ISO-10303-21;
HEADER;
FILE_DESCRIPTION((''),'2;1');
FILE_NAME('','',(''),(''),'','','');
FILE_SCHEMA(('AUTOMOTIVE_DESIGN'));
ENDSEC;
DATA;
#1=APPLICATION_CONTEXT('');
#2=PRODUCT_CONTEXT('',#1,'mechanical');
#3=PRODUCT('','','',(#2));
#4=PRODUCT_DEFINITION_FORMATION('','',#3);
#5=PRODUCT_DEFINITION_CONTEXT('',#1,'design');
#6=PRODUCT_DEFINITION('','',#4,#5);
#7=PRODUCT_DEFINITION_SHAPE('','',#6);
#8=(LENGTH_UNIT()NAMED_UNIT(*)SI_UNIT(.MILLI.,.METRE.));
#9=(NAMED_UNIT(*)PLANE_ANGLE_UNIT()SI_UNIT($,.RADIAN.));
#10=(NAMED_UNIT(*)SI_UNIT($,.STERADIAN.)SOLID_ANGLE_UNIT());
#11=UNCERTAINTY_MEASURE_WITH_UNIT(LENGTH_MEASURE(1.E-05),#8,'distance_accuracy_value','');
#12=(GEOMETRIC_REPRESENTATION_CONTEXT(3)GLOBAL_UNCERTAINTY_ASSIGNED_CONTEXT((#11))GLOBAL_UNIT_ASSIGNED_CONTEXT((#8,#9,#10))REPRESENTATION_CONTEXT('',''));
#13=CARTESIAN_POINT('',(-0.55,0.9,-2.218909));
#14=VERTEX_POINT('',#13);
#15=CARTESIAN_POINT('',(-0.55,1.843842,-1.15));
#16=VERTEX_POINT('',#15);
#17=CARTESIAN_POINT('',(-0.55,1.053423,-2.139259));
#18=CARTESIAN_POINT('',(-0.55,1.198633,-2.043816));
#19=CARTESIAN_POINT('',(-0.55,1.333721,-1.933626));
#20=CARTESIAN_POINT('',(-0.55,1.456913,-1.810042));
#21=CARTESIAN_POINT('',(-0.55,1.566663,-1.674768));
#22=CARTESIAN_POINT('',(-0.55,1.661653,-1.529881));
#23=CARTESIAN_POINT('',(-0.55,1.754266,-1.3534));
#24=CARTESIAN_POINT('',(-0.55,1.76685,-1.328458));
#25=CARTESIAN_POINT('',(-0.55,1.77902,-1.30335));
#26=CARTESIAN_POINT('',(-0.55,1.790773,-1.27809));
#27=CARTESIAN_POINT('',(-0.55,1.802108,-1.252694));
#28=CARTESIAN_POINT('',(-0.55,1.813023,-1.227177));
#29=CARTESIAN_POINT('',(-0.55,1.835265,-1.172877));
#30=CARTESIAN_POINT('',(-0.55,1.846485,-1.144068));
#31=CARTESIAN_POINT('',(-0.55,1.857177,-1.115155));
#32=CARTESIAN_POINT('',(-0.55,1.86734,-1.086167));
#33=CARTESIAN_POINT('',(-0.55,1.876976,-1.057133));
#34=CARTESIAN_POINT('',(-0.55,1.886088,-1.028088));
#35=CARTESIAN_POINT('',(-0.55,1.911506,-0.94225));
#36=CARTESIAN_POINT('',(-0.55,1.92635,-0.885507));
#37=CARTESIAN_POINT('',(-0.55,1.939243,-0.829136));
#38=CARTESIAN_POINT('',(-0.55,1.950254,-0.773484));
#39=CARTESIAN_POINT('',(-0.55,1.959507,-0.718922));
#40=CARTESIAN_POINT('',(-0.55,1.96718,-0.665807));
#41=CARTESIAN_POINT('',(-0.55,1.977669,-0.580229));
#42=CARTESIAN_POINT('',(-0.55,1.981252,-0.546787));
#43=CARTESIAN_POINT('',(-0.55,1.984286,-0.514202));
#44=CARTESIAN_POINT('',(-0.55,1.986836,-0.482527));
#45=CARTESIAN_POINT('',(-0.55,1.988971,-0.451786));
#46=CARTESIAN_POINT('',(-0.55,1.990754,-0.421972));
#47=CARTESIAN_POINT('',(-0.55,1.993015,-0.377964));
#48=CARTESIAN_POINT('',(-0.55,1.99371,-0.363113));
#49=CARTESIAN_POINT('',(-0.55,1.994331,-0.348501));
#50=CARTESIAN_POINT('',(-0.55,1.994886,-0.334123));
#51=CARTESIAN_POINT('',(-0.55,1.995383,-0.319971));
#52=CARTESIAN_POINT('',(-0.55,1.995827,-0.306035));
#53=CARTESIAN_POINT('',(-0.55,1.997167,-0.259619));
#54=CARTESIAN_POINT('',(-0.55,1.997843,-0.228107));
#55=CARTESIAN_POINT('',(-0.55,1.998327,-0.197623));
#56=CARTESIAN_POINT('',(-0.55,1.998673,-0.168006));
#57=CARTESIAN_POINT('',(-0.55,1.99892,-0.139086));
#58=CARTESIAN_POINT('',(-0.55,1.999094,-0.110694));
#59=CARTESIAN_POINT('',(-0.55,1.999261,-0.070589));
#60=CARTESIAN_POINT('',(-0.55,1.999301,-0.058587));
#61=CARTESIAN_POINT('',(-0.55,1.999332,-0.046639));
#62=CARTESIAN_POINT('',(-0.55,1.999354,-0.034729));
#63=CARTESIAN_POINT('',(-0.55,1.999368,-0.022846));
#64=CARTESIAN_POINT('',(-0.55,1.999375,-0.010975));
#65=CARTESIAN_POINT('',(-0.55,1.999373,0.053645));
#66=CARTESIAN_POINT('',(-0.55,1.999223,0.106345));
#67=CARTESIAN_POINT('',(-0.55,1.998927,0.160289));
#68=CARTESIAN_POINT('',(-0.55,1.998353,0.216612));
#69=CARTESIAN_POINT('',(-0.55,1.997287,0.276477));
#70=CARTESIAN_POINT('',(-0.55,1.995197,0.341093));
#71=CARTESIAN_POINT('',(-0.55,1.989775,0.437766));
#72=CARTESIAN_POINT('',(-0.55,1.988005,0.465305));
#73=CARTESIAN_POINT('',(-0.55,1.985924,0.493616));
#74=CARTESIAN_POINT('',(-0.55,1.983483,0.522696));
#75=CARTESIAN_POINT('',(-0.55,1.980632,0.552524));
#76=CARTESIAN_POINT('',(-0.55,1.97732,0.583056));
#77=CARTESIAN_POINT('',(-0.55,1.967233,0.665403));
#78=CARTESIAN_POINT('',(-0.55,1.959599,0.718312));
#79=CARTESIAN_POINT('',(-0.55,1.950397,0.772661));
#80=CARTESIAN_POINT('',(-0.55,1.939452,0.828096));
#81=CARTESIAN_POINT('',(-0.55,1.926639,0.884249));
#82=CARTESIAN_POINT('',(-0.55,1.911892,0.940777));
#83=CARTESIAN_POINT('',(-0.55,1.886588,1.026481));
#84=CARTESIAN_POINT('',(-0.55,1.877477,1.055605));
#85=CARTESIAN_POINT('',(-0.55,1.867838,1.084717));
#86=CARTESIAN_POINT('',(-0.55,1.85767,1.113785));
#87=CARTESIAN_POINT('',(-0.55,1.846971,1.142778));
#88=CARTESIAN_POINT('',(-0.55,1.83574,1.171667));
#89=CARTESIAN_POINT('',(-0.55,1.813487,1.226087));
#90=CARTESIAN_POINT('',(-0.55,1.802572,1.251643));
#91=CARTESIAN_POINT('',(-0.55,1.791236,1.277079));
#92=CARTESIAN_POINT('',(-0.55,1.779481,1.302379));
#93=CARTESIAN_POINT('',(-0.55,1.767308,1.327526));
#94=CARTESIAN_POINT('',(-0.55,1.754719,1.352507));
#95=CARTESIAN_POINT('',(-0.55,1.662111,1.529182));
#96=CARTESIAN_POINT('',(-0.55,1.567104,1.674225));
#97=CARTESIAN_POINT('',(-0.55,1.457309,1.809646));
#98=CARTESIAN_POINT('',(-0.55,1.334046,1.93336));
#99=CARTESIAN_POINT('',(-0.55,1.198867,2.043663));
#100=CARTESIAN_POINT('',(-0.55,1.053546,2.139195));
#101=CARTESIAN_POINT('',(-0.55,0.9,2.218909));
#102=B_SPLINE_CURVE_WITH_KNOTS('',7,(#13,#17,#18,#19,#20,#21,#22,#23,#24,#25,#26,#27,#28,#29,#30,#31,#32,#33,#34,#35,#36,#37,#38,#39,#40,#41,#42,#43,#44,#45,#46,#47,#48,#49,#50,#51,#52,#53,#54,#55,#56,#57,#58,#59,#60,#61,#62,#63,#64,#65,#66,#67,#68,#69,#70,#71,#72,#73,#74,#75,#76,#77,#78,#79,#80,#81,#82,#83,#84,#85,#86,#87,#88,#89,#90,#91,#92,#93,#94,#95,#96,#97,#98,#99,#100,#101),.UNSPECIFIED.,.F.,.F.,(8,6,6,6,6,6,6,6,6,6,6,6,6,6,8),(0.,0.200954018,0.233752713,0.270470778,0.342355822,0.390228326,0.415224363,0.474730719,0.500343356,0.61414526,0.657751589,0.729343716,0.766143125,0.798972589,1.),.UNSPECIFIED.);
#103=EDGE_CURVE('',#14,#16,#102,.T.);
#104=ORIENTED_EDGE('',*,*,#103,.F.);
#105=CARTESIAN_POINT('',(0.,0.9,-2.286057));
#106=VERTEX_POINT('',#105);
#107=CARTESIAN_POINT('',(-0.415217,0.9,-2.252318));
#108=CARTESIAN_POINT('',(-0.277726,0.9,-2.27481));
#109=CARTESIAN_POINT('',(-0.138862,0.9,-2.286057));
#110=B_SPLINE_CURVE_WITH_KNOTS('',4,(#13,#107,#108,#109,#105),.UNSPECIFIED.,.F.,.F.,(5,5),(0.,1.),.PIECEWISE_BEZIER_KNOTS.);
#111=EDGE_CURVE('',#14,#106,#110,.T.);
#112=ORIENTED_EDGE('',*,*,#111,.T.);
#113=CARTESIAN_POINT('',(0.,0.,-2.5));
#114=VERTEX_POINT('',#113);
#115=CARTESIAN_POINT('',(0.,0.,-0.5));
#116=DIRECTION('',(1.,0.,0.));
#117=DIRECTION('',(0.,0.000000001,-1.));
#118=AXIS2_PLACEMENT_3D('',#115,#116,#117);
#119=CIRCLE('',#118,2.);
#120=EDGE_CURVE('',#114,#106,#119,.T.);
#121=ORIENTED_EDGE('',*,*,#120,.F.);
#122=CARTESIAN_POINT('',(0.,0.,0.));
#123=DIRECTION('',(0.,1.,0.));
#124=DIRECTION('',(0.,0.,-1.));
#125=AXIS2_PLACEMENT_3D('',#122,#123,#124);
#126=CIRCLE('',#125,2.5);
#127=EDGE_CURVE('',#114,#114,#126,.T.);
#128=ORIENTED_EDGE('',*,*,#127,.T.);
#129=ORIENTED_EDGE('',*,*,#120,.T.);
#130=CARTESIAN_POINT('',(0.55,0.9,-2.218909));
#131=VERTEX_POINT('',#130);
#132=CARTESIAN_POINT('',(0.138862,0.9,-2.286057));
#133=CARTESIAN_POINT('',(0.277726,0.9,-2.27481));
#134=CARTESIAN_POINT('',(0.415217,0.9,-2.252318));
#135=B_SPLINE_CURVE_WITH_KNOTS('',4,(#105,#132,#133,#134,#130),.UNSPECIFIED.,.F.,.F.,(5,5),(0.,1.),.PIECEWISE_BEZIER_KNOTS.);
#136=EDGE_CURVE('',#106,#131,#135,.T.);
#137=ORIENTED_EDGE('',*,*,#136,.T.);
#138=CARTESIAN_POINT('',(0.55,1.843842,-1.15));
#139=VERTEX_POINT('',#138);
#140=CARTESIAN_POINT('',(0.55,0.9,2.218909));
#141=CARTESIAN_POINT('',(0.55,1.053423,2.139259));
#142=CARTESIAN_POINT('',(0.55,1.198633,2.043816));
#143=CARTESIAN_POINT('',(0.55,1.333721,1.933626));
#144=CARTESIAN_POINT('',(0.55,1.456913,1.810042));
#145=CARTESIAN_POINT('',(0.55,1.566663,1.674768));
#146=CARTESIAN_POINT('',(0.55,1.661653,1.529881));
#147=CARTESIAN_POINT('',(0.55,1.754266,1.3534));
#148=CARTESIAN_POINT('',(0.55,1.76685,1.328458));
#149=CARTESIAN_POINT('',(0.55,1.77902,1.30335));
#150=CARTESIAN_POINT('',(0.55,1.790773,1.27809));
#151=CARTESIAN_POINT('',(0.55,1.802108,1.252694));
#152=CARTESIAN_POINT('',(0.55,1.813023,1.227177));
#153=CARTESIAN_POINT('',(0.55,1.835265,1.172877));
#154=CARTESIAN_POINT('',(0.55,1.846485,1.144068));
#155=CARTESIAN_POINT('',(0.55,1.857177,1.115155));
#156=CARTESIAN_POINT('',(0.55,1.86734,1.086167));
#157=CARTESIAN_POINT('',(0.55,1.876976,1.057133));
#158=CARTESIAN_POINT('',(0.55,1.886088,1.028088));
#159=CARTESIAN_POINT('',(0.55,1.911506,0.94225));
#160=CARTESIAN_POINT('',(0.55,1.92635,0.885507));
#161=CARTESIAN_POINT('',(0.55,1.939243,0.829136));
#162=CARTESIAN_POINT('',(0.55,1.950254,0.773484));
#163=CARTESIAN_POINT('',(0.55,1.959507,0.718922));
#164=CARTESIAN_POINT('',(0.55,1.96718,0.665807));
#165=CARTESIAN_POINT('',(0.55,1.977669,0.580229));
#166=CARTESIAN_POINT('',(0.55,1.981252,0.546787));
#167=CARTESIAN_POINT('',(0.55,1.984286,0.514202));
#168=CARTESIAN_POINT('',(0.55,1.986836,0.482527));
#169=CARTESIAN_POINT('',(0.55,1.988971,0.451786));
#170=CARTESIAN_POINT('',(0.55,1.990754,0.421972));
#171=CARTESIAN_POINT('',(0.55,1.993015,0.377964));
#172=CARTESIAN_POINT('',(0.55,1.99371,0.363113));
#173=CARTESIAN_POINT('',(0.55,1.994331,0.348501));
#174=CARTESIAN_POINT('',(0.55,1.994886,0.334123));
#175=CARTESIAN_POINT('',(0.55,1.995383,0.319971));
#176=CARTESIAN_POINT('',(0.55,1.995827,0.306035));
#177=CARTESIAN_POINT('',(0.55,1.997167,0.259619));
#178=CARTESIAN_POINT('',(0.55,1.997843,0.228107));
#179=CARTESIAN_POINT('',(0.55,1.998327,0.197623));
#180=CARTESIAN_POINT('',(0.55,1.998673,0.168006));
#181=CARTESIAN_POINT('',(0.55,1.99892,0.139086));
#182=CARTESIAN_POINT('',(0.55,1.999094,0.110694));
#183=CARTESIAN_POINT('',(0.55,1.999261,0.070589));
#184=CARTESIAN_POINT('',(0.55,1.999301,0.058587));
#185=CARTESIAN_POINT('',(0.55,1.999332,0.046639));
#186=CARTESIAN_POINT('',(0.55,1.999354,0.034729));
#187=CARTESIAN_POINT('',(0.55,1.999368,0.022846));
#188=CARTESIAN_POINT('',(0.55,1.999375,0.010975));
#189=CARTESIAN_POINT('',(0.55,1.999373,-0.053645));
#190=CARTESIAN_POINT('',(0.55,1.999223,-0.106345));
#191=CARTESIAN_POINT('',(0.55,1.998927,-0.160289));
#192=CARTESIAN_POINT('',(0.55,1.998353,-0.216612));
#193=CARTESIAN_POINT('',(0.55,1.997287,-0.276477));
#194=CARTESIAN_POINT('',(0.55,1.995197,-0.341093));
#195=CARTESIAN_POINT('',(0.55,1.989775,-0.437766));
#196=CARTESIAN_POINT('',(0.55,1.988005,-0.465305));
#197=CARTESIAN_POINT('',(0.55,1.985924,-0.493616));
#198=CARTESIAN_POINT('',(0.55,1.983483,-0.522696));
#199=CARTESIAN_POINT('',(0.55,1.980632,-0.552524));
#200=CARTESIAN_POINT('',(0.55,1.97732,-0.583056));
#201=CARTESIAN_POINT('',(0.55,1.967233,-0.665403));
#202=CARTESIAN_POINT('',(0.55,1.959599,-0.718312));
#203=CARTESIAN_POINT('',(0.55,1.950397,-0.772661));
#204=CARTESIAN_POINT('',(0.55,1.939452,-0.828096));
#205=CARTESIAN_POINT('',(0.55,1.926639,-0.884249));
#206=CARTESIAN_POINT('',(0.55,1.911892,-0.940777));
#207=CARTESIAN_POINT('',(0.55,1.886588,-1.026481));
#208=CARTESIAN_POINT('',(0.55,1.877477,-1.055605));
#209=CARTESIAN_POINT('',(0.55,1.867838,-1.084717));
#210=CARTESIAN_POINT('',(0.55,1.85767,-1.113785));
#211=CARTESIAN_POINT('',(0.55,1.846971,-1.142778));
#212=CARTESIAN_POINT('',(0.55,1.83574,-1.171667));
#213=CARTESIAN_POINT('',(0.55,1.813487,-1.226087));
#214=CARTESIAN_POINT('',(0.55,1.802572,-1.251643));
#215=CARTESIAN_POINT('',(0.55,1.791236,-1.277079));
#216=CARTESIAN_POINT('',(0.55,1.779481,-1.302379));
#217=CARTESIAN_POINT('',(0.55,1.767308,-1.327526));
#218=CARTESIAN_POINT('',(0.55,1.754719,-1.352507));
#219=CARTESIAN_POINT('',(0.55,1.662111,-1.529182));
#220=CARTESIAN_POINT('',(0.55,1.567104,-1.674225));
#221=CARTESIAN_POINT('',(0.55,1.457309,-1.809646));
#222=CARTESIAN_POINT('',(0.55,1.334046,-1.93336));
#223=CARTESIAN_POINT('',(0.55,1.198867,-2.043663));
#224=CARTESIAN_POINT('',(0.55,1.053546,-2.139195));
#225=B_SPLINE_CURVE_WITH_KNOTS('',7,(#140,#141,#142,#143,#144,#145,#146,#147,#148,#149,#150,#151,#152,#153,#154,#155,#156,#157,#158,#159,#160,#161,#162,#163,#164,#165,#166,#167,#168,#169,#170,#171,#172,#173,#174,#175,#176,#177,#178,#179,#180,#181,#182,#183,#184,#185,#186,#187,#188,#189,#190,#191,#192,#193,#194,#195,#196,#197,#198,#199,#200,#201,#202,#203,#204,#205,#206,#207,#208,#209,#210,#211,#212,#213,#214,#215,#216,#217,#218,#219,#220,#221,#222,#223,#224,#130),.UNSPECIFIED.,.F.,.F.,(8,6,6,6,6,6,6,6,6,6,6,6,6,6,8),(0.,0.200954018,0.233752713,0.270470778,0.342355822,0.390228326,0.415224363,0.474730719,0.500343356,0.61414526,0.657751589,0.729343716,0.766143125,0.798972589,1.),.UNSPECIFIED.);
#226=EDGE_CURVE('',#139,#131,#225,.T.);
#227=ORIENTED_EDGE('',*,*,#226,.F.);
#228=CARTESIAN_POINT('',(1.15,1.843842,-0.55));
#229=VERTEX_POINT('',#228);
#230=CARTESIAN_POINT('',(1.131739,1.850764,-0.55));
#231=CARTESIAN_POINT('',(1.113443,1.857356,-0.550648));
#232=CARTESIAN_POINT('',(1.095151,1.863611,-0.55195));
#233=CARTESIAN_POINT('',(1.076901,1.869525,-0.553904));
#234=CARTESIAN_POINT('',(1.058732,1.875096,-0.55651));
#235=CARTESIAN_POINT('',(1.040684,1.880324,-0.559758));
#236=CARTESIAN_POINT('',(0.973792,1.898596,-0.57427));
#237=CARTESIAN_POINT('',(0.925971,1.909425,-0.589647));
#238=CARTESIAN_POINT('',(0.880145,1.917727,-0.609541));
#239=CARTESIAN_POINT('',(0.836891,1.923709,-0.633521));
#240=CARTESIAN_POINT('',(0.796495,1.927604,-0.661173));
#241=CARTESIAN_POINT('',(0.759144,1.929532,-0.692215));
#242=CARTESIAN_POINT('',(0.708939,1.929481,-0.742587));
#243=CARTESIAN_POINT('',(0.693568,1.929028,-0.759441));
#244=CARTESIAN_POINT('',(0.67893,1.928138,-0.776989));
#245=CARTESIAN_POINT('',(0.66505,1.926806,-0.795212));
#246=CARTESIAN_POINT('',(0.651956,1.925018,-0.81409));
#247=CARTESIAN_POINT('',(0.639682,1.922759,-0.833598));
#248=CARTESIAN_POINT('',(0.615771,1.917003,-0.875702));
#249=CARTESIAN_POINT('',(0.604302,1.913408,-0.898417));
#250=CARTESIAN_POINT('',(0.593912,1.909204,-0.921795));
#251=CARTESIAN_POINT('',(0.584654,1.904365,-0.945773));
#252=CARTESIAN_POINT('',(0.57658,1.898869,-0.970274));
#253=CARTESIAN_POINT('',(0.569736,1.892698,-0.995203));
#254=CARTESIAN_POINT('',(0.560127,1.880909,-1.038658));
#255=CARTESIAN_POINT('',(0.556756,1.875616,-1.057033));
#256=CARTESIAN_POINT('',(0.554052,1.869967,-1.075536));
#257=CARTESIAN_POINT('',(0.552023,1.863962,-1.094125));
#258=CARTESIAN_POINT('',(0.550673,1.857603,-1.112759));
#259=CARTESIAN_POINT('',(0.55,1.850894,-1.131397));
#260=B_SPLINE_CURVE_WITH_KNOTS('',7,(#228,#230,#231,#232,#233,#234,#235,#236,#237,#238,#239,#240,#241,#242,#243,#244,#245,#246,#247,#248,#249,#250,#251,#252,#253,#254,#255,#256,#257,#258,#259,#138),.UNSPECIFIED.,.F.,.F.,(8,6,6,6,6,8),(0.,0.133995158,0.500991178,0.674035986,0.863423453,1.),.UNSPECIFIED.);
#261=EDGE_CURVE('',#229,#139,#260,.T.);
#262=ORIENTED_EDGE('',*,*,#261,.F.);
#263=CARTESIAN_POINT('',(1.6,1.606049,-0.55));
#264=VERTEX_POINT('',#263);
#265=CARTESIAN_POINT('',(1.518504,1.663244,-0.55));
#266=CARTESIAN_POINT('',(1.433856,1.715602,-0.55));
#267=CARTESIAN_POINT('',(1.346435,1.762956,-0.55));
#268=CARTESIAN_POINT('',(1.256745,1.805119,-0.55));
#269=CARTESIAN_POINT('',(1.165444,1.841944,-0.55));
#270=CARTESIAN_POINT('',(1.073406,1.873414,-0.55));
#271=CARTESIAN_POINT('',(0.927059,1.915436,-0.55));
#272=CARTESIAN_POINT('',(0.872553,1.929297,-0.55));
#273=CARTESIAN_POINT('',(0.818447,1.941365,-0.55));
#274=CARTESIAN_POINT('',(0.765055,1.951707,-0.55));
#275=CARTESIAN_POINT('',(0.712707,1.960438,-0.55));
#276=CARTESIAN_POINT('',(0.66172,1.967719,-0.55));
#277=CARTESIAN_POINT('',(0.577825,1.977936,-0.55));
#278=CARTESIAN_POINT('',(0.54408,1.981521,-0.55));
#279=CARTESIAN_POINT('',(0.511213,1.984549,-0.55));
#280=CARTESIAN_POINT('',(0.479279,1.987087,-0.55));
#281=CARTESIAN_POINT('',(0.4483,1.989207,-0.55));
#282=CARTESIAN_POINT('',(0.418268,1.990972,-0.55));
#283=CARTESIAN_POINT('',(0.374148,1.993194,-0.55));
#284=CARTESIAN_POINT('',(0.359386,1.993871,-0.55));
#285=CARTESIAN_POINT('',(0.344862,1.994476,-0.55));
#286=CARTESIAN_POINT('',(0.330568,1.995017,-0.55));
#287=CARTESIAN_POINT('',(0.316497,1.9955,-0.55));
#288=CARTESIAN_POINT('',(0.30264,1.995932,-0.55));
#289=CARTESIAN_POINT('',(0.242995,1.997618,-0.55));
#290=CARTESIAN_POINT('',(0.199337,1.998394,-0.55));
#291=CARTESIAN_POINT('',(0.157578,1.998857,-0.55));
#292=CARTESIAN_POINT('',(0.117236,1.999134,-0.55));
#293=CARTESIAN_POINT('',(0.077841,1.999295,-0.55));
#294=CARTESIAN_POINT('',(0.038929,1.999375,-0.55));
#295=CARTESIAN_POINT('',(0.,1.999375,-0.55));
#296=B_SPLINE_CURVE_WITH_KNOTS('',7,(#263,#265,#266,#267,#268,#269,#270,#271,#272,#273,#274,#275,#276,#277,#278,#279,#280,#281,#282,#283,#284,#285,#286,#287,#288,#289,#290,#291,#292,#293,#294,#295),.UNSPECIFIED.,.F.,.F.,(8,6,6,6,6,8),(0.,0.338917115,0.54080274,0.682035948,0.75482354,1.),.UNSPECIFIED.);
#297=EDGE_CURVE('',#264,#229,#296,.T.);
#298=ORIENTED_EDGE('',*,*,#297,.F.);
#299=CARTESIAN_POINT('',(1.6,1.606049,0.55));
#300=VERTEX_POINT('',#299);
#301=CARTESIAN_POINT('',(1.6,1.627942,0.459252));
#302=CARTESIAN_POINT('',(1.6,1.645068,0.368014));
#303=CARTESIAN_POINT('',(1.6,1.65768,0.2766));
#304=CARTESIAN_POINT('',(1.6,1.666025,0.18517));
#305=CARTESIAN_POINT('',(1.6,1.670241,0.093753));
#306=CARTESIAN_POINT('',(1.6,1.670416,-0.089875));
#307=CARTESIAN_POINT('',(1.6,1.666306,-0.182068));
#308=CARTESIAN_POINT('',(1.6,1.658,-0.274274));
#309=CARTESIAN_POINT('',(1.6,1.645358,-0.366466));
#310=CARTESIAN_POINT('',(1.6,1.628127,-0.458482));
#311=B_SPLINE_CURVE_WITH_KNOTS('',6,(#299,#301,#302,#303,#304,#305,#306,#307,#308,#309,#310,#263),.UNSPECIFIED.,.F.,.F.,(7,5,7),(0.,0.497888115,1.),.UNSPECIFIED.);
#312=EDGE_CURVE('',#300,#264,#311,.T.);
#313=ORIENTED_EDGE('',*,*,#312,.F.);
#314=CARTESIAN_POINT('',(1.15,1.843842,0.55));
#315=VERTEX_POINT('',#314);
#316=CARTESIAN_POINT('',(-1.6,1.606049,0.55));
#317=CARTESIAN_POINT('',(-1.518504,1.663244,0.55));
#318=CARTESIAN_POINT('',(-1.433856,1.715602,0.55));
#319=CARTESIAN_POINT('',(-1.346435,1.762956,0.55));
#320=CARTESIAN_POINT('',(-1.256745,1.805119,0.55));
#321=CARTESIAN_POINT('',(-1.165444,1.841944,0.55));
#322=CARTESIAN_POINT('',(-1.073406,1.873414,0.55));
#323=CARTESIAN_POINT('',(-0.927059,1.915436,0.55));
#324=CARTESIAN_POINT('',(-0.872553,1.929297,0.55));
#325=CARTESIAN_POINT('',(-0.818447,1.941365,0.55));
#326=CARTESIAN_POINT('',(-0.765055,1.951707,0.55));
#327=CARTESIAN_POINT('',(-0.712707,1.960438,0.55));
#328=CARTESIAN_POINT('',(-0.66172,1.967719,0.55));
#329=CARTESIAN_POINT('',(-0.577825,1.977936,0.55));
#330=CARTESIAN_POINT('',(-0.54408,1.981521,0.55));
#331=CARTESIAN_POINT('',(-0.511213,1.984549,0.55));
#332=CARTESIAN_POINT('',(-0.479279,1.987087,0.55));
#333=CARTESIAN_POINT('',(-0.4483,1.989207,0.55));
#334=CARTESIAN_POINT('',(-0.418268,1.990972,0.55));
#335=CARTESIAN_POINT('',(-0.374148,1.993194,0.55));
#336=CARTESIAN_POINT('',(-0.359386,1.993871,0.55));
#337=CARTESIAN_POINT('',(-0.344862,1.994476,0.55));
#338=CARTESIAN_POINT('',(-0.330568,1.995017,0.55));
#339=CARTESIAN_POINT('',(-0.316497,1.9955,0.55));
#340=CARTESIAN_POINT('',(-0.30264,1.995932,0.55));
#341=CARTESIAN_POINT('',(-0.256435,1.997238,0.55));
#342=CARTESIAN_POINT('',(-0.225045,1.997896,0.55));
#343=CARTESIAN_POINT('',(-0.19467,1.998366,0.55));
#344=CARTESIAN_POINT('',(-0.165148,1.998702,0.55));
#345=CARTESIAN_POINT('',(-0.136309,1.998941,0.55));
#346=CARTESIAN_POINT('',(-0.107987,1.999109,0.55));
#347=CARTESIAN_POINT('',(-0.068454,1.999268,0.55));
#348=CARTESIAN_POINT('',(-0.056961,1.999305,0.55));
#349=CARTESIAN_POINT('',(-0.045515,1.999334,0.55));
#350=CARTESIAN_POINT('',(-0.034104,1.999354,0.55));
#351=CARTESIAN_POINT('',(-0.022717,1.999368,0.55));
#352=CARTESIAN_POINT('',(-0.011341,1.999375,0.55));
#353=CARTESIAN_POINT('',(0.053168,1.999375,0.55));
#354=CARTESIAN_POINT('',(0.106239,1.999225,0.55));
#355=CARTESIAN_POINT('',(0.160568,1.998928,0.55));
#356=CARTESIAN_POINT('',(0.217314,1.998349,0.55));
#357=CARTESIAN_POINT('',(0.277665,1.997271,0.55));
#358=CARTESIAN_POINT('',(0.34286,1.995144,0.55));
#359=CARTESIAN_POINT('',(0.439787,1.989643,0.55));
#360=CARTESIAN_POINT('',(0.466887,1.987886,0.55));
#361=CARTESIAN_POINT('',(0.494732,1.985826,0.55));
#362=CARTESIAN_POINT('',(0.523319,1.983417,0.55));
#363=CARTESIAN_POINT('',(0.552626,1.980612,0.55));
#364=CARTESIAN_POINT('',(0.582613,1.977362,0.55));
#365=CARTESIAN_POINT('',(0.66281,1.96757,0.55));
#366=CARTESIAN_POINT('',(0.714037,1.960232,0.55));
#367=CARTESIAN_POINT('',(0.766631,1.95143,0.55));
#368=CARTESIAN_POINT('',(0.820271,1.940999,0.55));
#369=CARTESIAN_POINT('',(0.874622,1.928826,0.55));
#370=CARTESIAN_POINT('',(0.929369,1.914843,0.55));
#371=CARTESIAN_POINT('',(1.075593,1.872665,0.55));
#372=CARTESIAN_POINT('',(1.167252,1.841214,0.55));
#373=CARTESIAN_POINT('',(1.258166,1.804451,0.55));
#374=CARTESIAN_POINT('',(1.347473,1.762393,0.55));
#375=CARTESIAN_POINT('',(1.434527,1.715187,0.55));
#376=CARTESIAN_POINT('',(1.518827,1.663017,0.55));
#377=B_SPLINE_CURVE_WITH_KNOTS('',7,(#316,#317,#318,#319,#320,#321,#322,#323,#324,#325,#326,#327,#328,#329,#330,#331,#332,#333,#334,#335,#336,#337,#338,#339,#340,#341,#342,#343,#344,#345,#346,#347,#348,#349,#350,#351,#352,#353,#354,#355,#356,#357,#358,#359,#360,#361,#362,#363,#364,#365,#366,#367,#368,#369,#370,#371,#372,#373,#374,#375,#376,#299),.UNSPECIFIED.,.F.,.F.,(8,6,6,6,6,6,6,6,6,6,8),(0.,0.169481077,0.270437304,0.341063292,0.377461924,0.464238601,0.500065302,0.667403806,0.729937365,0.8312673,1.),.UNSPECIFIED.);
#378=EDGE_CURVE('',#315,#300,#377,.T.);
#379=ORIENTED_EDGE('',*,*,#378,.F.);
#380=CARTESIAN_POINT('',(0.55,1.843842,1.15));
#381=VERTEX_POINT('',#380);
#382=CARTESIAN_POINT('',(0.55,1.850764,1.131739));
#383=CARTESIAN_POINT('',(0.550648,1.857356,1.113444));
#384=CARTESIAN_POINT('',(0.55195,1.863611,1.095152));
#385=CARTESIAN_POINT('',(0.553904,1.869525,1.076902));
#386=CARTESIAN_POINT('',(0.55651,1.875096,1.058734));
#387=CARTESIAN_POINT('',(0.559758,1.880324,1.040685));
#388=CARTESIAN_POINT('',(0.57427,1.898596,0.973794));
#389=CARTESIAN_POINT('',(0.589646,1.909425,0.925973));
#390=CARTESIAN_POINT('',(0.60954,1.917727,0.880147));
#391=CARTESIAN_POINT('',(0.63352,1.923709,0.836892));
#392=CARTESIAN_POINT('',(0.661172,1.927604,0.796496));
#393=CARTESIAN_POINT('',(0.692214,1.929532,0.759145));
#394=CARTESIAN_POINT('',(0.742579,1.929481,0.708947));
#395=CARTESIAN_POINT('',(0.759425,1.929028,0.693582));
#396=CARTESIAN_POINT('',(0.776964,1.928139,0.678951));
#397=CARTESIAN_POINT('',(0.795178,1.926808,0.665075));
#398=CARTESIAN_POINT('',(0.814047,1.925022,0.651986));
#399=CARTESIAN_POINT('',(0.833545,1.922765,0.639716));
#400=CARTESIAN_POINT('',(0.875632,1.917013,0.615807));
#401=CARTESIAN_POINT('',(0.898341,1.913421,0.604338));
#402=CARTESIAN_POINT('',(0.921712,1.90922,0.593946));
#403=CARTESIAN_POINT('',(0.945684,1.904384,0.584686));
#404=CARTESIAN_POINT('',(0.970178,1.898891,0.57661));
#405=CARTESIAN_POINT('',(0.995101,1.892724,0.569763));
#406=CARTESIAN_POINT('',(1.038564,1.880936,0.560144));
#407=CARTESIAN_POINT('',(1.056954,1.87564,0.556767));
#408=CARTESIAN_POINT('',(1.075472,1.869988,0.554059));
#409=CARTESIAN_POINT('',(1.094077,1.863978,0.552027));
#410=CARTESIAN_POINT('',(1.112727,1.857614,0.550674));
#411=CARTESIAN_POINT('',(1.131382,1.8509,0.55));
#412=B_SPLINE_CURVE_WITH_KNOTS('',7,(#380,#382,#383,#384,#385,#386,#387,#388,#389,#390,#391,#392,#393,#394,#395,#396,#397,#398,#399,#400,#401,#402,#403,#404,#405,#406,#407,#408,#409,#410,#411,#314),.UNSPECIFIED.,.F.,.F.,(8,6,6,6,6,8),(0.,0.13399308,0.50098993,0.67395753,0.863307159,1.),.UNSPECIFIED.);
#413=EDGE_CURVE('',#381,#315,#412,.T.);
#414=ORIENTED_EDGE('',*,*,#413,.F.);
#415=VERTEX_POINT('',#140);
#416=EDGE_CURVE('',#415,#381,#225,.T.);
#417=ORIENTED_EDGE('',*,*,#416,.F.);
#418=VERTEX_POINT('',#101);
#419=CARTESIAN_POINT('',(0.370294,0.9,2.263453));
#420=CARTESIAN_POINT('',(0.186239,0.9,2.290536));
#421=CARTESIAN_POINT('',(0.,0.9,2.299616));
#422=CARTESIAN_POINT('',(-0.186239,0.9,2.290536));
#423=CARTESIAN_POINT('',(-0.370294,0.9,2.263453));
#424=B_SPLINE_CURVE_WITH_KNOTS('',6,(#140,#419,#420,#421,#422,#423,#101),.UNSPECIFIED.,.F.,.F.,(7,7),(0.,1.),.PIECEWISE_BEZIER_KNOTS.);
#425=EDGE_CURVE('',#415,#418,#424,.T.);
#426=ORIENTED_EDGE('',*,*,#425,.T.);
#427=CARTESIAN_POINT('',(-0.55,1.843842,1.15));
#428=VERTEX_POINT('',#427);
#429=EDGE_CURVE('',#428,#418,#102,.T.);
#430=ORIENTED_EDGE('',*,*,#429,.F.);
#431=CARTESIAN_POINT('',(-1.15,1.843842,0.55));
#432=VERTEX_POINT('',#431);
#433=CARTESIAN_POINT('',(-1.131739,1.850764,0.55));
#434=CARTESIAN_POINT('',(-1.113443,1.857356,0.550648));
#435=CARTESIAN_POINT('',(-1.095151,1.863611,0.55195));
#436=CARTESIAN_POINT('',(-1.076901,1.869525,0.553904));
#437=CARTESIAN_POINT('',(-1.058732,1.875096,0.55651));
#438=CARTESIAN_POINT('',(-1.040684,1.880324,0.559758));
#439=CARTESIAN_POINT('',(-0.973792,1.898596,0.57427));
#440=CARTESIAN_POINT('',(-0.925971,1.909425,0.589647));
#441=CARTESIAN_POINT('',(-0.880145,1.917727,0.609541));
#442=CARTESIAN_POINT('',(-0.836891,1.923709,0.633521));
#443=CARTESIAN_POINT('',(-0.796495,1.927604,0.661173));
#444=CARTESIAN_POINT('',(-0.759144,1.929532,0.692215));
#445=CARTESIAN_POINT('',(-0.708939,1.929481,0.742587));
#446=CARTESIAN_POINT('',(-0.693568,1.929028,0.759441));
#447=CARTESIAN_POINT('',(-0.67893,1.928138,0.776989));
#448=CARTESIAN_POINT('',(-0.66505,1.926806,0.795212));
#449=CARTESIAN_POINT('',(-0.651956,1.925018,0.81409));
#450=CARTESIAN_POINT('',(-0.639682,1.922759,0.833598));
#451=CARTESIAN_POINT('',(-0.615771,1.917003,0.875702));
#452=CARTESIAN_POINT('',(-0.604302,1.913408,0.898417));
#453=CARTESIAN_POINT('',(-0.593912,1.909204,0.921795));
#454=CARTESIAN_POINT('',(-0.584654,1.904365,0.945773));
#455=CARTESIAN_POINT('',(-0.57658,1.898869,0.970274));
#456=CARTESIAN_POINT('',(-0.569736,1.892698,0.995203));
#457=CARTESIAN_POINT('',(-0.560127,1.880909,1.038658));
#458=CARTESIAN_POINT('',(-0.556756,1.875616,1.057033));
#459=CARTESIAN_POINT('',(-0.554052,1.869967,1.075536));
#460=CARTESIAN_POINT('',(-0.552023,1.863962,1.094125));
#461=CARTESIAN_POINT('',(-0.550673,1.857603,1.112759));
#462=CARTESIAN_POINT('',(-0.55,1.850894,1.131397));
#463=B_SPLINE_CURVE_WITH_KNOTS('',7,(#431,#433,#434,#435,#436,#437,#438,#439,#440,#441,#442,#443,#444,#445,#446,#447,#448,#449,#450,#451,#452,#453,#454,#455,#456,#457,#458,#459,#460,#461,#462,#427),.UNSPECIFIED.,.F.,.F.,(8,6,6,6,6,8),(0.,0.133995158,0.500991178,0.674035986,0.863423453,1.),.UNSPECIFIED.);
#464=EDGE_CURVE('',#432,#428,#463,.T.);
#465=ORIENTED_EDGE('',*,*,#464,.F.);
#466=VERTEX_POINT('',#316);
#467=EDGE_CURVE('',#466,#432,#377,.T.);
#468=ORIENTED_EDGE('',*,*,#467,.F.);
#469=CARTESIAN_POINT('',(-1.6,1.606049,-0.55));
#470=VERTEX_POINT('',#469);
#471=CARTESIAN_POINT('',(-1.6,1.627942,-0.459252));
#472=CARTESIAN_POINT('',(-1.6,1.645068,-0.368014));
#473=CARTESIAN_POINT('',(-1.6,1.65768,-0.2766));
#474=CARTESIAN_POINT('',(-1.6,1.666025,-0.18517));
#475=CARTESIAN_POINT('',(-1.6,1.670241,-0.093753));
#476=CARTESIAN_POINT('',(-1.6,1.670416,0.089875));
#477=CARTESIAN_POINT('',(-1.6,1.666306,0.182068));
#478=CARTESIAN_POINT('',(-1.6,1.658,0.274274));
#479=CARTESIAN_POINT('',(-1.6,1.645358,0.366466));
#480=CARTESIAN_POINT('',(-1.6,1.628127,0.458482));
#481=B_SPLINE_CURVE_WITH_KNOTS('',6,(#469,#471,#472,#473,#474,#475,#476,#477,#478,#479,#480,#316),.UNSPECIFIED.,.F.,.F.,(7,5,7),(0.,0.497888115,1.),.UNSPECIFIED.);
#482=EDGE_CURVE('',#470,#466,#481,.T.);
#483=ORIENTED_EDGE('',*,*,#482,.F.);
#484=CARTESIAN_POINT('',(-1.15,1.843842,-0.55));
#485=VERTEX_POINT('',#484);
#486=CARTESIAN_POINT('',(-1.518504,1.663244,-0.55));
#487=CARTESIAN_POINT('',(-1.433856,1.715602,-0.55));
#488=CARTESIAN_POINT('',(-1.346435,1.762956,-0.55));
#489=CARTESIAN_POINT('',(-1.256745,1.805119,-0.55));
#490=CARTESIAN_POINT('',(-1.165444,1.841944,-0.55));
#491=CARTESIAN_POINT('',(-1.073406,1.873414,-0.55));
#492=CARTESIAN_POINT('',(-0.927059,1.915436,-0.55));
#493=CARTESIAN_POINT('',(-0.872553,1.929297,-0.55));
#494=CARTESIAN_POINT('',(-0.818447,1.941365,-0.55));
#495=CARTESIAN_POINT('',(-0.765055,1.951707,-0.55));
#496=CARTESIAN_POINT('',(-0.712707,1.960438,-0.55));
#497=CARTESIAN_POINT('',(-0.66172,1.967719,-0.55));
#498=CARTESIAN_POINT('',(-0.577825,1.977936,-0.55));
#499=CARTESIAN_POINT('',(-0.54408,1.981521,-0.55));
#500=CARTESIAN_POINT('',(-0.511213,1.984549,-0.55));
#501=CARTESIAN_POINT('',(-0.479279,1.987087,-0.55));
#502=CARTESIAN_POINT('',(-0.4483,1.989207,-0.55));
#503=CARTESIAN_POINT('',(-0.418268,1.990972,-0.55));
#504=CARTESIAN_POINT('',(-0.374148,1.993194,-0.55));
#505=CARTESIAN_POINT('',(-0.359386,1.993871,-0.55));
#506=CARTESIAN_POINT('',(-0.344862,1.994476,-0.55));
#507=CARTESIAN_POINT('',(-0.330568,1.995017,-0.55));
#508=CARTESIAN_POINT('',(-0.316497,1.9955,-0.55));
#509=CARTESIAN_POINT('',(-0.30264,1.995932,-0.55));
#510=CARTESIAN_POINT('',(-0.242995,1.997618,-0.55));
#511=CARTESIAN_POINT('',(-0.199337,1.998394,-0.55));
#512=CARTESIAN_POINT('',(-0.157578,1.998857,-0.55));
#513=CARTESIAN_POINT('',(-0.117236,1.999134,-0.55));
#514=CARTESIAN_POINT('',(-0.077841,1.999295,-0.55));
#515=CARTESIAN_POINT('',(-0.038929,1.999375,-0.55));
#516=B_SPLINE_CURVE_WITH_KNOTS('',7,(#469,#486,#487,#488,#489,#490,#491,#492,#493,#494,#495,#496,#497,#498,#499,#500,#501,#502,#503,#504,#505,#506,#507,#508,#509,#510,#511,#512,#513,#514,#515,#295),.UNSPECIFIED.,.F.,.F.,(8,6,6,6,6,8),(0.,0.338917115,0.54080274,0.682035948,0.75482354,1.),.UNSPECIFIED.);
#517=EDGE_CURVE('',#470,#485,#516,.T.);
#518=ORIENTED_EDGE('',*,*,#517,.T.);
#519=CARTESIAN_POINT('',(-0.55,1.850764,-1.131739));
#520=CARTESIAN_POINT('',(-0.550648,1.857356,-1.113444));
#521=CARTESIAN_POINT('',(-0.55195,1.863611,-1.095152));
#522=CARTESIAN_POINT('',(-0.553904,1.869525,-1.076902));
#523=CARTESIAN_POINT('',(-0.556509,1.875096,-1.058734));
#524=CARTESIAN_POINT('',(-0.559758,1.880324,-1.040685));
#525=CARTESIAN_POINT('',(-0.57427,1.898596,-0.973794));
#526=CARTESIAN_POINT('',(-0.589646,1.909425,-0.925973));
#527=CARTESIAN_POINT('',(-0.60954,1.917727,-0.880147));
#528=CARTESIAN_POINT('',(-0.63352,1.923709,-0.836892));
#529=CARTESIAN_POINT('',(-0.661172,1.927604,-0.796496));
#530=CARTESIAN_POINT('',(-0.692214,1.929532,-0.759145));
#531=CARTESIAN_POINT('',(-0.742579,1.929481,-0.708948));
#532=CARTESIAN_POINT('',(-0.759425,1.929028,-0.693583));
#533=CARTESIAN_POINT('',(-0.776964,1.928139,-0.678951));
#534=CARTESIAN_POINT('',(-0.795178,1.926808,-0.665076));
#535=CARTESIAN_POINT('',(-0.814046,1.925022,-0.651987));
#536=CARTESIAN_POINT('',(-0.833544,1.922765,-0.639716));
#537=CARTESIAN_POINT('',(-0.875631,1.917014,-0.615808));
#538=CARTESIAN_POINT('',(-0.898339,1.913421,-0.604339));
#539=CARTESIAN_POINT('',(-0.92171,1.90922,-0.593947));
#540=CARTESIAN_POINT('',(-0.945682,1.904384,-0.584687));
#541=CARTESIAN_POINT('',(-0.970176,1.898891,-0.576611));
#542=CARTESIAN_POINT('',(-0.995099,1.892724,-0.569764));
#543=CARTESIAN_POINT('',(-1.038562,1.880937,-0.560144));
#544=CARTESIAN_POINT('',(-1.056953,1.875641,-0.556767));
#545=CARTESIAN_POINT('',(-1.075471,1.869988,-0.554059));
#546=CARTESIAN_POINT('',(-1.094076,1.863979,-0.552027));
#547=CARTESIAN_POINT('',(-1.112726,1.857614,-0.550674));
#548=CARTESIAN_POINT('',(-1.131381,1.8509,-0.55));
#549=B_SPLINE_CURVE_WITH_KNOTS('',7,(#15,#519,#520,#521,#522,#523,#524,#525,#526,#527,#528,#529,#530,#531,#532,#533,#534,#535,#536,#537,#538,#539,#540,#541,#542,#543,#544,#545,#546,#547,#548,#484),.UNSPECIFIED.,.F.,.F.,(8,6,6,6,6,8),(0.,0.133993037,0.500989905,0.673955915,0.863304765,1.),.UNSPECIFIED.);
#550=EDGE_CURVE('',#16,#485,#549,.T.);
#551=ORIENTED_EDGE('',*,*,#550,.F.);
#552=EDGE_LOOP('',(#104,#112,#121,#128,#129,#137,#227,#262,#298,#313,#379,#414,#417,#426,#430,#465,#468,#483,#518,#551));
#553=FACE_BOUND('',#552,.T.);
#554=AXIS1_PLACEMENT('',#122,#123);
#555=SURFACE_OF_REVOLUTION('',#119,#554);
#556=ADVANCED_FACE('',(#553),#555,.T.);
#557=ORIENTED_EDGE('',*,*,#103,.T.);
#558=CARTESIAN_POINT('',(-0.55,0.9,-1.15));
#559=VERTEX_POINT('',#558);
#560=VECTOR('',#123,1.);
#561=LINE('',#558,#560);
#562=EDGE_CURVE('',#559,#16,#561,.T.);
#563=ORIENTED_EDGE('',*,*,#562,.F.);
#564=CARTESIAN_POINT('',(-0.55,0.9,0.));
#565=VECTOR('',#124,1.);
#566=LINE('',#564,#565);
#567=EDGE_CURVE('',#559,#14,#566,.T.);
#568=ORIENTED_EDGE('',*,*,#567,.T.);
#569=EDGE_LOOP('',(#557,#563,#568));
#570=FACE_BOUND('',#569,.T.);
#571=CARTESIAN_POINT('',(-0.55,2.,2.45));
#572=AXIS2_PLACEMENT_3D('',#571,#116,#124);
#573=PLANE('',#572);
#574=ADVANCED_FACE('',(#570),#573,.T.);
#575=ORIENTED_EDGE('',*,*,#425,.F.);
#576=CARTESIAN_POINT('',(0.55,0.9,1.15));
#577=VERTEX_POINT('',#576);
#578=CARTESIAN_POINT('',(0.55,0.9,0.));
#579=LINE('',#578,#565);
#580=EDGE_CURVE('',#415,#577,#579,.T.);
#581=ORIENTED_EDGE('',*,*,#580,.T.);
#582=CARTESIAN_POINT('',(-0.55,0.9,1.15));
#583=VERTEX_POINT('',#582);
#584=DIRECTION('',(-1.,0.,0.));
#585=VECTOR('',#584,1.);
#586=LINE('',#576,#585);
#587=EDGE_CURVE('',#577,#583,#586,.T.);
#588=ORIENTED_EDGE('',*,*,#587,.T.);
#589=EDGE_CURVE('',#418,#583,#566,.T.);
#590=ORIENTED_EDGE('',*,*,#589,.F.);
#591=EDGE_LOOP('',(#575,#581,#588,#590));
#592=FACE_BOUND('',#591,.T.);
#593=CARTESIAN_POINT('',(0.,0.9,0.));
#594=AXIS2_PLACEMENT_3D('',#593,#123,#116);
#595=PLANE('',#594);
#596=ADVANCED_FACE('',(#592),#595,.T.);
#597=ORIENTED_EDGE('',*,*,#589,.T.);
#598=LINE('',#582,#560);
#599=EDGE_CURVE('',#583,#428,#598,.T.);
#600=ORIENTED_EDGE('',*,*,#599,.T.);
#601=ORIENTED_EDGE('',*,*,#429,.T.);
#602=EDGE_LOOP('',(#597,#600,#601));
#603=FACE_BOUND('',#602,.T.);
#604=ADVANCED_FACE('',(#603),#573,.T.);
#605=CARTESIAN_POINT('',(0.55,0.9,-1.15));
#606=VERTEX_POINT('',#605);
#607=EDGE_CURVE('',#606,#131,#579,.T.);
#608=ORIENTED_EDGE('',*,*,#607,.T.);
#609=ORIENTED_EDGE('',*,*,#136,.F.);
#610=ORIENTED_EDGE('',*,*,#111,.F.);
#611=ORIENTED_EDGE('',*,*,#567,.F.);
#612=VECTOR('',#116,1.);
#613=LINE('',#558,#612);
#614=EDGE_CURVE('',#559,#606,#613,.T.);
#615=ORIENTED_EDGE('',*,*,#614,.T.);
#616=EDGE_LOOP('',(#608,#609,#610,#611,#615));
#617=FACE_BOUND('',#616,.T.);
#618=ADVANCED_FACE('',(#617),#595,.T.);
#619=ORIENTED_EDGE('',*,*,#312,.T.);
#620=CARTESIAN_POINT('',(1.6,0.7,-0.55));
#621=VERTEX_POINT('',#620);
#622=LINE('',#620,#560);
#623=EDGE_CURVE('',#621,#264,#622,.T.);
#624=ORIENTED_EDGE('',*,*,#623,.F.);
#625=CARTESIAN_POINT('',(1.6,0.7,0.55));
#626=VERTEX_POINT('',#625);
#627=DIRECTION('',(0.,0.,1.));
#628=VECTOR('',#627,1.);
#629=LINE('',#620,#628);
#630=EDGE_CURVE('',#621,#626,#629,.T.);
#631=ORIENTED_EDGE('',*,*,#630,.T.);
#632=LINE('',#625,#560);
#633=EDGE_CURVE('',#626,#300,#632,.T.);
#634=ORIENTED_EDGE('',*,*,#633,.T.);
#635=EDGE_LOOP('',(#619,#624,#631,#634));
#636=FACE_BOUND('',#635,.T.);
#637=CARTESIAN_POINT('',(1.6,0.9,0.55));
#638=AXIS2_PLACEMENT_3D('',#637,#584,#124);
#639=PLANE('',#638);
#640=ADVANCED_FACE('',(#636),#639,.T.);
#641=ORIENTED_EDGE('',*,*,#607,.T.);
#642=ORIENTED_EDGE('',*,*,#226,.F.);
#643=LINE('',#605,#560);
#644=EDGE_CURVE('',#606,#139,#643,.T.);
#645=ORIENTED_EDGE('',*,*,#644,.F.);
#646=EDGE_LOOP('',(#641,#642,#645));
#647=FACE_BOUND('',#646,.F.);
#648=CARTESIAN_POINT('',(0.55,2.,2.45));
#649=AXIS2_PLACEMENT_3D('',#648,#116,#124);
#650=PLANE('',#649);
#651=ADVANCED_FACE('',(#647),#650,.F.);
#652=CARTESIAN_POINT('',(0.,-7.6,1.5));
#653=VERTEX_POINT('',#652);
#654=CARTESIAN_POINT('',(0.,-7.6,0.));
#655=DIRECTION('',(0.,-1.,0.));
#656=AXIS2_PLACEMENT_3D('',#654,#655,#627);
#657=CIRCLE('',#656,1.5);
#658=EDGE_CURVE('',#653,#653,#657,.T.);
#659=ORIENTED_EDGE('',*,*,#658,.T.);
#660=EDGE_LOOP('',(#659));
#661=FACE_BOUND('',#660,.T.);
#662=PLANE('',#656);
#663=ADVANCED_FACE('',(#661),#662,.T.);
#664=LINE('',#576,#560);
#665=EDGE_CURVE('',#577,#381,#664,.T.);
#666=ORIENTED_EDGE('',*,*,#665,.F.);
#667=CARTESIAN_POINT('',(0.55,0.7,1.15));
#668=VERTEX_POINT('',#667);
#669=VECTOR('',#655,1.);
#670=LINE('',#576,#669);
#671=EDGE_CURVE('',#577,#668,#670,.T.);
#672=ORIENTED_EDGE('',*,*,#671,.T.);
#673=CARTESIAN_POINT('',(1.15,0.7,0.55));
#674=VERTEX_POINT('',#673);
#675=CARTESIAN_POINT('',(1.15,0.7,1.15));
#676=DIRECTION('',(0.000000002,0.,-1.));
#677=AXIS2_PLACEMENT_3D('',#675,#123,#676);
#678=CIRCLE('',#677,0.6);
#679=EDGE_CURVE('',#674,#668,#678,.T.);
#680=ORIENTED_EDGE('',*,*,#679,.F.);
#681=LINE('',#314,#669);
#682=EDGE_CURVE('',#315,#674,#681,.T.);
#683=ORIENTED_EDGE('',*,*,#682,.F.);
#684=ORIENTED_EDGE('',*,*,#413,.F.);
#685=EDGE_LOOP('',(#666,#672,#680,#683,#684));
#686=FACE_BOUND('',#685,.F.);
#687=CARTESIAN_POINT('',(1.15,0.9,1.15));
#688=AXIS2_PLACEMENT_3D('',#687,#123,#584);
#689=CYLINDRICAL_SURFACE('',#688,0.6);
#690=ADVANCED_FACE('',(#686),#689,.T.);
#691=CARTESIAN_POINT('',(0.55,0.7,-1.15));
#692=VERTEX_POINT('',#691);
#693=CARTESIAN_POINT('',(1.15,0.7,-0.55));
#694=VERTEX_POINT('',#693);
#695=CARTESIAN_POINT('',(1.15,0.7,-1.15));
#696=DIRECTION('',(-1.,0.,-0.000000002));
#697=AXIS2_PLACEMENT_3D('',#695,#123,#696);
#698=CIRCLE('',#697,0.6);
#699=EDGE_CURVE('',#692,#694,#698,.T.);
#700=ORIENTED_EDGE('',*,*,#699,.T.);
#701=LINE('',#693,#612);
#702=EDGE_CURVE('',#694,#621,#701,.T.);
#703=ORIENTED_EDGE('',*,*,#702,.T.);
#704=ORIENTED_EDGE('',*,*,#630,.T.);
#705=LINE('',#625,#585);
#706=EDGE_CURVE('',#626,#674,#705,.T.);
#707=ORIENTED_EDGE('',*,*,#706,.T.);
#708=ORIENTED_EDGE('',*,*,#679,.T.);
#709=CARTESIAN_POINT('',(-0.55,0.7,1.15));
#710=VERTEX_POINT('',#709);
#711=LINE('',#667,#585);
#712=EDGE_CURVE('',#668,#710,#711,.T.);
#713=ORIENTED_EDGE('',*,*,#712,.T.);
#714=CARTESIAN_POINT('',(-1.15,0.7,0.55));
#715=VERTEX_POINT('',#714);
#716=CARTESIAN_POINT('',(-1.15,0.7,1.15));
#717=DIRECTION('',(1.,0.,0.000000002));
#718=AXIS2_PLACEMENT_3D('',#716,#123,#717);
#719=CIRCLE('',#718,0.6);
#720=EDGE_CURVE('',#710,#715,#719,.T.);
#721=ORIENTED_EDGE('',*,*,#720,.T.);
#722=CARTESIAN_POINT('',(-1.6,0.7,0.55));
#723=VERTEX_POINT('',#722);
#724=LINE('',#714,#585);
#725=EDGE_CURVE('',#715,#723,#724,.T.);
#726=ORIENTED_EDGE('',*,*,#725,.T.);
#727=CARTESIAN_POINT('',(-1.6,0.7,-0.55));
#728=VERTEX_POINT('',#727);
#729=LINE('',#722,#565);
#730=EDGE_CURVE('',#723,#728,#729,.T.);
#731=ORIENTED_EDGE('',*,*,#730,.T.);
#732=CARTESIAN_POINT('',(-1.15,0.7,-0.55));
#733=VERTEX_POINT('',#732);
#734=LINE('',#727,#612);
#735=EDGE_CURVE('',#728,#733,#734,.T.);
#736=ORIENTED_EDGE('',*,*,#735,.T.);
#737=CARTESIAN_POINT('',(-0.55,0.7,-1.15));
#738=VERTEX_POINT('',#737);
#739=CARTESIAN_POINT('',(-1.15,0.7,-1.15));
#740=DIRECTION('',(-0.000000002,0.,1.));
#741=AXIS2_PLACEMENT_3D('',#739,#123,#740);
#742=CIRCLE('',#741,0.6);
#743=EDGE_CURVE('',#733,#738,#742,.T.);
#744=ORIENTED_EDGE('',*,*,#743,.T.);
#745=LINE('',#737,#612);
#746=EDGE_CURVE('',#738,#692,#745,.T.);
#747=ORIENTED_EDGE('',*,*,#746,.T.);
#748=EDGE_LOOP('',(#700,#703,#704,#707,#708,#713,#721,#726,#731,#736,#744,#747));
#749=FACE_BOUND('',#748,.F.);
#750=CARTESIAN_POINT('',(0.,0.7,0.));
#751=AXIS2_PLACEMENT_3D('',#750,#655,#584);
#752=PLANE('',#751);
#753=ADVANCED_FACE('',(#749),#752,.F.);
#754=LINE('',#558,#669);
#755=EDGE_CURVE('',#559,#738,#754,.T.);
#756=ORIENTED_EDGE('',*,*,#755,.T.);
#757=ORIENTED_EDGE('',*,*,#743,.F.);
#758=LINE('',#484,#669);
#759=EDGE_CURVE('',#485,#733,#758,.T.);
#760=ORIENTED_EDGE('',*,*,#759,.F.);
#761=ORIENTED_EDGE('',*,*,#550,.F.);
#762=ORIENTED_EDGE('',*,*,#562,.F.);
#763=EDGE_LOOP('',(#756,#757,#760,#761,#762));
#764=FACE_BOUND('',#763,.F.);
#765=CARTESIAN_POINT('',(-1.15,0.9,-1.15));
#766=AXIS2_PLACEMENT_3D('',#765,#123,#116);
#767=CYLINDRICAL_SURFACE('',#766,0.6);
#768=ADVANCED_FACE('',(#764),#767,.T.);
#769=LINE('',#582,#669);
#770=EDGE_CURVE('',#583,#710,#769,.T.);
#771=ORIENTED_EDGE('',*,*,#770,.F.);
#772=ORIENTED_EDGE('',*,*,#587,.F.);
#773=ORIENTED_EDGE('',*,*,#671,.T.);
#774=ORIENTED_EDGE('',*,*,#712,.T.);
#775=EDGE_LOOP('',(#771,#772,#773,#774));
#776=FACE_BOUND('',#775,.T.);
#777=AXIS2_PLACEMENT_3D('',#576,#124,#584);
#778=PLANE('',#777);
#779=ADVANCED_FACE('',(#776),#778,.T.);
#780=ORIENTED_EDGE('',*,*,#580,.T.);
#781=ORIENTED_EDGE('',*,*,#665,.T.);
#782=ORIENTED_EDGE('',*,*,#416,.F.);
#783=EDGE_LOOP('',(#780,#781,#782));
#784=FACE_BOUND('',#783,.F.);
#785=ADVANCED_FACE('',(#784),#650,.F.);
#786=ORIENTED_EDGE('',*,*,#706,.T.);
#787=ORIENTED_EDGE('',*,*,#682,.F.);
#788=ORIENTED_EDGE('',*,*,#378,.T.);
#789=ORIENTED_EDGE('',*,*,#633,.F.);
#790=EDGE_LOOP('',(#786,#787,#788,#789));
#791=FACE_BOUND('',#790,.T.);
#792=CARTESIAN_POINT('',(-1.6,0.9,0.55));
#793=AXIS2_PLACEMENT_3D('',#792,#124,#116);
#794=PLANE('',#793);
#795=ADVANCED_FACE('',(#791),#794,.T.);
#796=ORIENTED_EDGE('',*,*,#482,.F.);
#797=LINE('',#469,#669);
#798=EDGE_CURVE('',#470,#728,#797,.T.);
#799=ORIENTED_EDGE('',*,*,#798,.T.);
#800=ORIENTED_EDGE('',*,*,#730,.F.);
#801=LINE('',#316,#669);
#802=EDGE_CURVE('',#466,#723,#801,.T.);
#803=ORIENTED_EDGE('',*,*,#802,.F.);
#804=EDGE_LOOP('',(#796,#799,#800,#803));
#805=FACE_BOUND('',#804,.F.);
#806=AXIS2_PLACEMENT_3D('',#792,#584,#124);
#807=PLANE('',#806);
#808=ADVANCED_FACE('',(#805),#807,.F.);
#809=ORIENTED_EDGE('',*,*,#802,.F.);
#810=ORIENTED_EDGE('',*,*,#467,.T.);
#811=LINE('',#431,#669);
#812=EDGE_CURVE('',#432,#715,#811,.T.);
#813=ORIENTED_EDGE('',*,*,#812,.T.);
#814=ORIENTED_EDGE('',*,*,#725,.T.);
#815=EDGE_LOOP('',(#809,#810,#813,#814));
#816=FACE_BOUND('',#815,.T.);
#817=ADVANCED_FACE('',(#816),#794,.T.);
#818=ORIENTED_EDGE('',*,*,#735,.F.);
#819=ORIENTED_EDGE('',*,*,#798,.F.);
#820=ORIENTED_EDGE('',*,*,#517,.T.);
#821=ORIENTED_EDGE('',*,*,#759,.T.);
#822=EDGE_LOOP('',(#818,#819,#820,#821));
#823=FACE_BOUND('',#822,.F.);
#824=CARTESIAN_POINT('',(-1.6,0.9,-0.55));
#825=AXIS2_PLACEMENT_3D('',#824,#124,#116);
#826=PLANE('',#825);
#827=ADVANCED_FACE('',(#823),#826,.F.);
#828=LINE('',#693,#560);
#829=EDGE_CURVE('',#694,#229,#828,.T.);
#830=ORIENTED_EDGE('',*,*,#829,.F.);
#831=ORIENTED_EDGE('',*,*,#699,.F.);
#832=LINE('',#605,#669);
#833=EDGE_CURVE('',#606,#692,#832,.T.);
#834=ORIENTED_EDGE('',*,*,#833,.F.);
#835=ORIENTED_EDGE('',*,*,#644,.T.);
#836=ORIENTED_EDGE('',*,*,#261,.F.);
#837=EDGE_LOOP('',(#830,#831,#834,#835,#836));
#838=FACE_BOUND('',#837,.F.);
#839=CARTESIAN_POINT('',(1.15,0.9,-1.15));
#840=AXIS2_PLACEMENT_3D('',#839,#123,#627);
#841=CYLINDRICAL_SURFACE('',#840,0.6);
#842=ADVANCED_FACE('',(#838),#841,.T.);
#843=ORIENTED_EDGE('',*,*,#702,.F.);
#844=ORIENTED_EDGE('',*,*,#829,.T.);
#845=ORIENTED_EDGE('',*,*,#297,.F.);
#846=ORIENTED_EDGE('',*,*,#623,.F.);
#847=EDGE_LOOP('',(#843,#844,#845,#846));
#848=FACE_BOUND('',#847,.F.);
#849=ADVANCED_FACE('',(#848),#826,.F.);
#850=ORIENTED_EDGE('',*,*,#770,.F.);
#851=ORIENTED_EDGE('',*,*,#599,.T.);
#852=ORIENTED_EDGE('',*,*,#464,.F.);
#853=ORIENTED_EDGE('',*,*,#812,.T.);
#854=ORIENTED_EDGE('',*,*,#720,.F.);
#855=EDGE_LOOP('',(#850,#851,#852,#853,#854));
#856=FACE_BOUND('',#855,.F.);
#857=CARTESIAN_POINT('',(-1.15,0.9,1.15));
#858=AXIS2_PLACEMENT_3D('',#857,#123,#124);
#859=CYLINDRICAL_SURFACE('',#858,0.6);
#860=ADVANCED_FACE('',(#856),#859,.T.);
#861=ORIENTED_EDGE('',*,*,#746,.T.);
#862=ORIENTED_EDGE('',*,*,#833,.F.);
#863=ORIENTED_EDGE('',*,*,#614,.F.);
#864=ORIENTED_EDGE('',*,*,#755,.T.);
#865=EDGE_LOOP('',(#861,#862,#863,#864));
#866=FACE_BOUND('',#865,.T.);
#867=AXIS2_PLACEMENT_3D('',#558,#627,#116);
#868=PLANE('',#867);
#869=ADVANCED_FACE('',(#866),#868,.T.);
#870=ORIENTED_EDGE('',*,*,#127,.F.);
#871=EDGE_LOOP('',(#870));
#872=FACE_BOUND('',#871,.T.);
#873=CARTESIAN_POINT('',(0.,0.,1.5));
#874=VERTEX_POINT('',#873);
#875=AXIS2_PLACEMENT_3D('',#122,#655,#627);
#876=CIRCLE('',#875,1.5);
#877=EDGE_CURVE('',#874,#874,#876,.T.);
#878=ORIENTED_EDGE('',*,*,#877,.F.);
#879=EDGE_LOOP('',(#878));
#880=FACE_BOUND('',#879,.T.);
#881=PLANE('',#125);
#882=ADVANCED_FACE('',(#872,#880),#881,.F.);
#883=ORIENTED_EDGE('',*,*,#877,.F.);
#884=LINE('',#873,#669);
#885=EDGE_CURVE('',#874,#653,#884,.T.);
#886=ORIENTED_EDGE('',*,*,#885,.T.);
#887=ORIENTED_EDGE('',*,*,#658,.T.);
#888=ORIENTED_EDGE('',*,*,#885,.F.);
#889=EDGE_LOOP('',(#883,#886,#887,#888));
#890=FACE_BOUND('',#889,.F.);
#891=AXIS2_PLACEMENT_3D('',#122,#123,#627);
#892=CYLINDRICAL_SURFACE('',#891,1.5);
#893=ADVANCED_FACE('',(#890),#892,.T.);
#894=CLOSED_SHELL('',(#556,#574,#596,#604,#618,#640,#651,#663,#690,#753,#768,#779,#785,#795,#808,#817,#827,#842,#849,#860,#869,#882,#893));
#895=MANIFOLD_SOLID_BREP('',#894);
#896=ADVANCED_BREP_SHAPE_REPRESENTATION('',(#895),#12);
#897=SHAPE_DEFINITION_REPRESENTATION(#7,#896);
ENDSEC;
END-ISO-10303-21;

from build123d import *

# Parameters (mm, degrees)
SKETCH3_W           = 1.1
SKETCH3_H           = 4.9
CUT_EXTRUDE1_DEPTH  = 1.1
SKETCH4_W           = 3.2
SKETCH4_H           = 1.1
CUT_EXTRUDE2_DEPTH  = 4.702516225
FILLET1_R           = 0.6
CUT_EXTRUDE3_DEPTH  = 0.2
SKETCH2_R           = 1.5
BOSS_EXTRUDE1_DEPTH = 7.6


with BuildPart() as part:
    # Sketch1 → Revolve1 (revolve)
    with BuildSketch(Plane(origin=(0, 0, 0), x_dir=(0, 0, -1), z_dir=(1, 0, 0))):
        with BuildLine():
            Line((0, 2), (0, 0))
            Line((0, 0), (2.5, 0))
            ThreePointArc((2.5, 0), (1.914213562, 1.414213562), (0.5, 2))
            Line((0.5, 2), (0, 2))
        make_face()
    revolve(axis=Axis((0, 0, 0), (0, 1, 0)))

    # Sketch3 → Cut-Extrude1 (cut)
    with BuildSketch(Plane(origin=(0, 2, 0), x_dir=(1, 0, 0), z_dir=(0, 1, 0))):
        Rectangle(SKETCH3_W, SKETCH3_H)
    extrude(amount=-CUT_EXTRUDE1_DEPTH, mode=Mode.SUBTRACT)

    # Sketch4 → Cut-Extrude2 (cut, through all)
    with BuildSketch(Plane(origin=(0, 0.9, 0), x_dir=(1, 0, 0), z_dir=(0, 1, 0))):
        Rectangle(SKETCH4_W, SKETCH4_H)
    extrude(amount=CUT_EXTRUDE2_DEPTH, mode=Mode.SUBTRACT)

    # Fillet1
    fillet1_edges = [part.edges().sort_by_distance(p)[0] for p in [
        (0.55, 1.440305176, 0.55),
        (-0.55, 1.440305183, 0.55),
        (0.55, 1.440305183, -0.55),
        (-0.55, 1.440305176, -0.55),
    ]]
    fillet(fillet1_edges, radius=FILLET1_R)

    # Sketch5 → Cut-Extrude3 (cut)
    with BuildSketch(Plane(origin=(0, 0.9, 0), x_dir=(1, 0, 0), z_dir=(0, 1, 0))):
        with BuildLine():
            Line((-0.55, 1.15), (0.55, 1.15))
            ThreePointArc((0.55, 1.15), (0.725735931, 0.725735931), (1.15, 0.55))
            Line((1.15, 0.55), (1.6, 0.55))
            Line((1.6, 0.55), (1.6, -0.55))
            Line((1.6, -0.55), (1.15, -0.55))
            ThreePointArc((1.15, -0.55), (0.725735931, -0.725735931), (0.55, -1.15))
            Line((0.55, -1.15), (-0.55, -1.15))
            ThreePointArc((-0.55, -1.15), (-0.725735931, -0.725735931), (-1.15, -0.55))
            Line((-1.15, -0.55), (-1.6, -0.55))
            Line((-1.6, -0.55), (-1.6, 0.55))
            Line((-1.6, 0.55), (-1.15, 0.55))
            ThreePointArc((-1.15, 0.55), (-0.725735931, 0.725735931), (-0.55, 1.15))
        make_face()
    extrude(amount=-CUT_EXTRUDE3_DEPTH, mode=Mode.SUBTRACT)

    # Sketch2 → Boss-Extrude1 (add)
    with BuildSketch(Plane.XZ):
        with Locations(Location((0, 0, 0), (0, 0, 90))):
            Circle(SKETCH2_R)
    extrude(amount=BOSS_EXTRUDE1_DEPTH)


solid = part.part
